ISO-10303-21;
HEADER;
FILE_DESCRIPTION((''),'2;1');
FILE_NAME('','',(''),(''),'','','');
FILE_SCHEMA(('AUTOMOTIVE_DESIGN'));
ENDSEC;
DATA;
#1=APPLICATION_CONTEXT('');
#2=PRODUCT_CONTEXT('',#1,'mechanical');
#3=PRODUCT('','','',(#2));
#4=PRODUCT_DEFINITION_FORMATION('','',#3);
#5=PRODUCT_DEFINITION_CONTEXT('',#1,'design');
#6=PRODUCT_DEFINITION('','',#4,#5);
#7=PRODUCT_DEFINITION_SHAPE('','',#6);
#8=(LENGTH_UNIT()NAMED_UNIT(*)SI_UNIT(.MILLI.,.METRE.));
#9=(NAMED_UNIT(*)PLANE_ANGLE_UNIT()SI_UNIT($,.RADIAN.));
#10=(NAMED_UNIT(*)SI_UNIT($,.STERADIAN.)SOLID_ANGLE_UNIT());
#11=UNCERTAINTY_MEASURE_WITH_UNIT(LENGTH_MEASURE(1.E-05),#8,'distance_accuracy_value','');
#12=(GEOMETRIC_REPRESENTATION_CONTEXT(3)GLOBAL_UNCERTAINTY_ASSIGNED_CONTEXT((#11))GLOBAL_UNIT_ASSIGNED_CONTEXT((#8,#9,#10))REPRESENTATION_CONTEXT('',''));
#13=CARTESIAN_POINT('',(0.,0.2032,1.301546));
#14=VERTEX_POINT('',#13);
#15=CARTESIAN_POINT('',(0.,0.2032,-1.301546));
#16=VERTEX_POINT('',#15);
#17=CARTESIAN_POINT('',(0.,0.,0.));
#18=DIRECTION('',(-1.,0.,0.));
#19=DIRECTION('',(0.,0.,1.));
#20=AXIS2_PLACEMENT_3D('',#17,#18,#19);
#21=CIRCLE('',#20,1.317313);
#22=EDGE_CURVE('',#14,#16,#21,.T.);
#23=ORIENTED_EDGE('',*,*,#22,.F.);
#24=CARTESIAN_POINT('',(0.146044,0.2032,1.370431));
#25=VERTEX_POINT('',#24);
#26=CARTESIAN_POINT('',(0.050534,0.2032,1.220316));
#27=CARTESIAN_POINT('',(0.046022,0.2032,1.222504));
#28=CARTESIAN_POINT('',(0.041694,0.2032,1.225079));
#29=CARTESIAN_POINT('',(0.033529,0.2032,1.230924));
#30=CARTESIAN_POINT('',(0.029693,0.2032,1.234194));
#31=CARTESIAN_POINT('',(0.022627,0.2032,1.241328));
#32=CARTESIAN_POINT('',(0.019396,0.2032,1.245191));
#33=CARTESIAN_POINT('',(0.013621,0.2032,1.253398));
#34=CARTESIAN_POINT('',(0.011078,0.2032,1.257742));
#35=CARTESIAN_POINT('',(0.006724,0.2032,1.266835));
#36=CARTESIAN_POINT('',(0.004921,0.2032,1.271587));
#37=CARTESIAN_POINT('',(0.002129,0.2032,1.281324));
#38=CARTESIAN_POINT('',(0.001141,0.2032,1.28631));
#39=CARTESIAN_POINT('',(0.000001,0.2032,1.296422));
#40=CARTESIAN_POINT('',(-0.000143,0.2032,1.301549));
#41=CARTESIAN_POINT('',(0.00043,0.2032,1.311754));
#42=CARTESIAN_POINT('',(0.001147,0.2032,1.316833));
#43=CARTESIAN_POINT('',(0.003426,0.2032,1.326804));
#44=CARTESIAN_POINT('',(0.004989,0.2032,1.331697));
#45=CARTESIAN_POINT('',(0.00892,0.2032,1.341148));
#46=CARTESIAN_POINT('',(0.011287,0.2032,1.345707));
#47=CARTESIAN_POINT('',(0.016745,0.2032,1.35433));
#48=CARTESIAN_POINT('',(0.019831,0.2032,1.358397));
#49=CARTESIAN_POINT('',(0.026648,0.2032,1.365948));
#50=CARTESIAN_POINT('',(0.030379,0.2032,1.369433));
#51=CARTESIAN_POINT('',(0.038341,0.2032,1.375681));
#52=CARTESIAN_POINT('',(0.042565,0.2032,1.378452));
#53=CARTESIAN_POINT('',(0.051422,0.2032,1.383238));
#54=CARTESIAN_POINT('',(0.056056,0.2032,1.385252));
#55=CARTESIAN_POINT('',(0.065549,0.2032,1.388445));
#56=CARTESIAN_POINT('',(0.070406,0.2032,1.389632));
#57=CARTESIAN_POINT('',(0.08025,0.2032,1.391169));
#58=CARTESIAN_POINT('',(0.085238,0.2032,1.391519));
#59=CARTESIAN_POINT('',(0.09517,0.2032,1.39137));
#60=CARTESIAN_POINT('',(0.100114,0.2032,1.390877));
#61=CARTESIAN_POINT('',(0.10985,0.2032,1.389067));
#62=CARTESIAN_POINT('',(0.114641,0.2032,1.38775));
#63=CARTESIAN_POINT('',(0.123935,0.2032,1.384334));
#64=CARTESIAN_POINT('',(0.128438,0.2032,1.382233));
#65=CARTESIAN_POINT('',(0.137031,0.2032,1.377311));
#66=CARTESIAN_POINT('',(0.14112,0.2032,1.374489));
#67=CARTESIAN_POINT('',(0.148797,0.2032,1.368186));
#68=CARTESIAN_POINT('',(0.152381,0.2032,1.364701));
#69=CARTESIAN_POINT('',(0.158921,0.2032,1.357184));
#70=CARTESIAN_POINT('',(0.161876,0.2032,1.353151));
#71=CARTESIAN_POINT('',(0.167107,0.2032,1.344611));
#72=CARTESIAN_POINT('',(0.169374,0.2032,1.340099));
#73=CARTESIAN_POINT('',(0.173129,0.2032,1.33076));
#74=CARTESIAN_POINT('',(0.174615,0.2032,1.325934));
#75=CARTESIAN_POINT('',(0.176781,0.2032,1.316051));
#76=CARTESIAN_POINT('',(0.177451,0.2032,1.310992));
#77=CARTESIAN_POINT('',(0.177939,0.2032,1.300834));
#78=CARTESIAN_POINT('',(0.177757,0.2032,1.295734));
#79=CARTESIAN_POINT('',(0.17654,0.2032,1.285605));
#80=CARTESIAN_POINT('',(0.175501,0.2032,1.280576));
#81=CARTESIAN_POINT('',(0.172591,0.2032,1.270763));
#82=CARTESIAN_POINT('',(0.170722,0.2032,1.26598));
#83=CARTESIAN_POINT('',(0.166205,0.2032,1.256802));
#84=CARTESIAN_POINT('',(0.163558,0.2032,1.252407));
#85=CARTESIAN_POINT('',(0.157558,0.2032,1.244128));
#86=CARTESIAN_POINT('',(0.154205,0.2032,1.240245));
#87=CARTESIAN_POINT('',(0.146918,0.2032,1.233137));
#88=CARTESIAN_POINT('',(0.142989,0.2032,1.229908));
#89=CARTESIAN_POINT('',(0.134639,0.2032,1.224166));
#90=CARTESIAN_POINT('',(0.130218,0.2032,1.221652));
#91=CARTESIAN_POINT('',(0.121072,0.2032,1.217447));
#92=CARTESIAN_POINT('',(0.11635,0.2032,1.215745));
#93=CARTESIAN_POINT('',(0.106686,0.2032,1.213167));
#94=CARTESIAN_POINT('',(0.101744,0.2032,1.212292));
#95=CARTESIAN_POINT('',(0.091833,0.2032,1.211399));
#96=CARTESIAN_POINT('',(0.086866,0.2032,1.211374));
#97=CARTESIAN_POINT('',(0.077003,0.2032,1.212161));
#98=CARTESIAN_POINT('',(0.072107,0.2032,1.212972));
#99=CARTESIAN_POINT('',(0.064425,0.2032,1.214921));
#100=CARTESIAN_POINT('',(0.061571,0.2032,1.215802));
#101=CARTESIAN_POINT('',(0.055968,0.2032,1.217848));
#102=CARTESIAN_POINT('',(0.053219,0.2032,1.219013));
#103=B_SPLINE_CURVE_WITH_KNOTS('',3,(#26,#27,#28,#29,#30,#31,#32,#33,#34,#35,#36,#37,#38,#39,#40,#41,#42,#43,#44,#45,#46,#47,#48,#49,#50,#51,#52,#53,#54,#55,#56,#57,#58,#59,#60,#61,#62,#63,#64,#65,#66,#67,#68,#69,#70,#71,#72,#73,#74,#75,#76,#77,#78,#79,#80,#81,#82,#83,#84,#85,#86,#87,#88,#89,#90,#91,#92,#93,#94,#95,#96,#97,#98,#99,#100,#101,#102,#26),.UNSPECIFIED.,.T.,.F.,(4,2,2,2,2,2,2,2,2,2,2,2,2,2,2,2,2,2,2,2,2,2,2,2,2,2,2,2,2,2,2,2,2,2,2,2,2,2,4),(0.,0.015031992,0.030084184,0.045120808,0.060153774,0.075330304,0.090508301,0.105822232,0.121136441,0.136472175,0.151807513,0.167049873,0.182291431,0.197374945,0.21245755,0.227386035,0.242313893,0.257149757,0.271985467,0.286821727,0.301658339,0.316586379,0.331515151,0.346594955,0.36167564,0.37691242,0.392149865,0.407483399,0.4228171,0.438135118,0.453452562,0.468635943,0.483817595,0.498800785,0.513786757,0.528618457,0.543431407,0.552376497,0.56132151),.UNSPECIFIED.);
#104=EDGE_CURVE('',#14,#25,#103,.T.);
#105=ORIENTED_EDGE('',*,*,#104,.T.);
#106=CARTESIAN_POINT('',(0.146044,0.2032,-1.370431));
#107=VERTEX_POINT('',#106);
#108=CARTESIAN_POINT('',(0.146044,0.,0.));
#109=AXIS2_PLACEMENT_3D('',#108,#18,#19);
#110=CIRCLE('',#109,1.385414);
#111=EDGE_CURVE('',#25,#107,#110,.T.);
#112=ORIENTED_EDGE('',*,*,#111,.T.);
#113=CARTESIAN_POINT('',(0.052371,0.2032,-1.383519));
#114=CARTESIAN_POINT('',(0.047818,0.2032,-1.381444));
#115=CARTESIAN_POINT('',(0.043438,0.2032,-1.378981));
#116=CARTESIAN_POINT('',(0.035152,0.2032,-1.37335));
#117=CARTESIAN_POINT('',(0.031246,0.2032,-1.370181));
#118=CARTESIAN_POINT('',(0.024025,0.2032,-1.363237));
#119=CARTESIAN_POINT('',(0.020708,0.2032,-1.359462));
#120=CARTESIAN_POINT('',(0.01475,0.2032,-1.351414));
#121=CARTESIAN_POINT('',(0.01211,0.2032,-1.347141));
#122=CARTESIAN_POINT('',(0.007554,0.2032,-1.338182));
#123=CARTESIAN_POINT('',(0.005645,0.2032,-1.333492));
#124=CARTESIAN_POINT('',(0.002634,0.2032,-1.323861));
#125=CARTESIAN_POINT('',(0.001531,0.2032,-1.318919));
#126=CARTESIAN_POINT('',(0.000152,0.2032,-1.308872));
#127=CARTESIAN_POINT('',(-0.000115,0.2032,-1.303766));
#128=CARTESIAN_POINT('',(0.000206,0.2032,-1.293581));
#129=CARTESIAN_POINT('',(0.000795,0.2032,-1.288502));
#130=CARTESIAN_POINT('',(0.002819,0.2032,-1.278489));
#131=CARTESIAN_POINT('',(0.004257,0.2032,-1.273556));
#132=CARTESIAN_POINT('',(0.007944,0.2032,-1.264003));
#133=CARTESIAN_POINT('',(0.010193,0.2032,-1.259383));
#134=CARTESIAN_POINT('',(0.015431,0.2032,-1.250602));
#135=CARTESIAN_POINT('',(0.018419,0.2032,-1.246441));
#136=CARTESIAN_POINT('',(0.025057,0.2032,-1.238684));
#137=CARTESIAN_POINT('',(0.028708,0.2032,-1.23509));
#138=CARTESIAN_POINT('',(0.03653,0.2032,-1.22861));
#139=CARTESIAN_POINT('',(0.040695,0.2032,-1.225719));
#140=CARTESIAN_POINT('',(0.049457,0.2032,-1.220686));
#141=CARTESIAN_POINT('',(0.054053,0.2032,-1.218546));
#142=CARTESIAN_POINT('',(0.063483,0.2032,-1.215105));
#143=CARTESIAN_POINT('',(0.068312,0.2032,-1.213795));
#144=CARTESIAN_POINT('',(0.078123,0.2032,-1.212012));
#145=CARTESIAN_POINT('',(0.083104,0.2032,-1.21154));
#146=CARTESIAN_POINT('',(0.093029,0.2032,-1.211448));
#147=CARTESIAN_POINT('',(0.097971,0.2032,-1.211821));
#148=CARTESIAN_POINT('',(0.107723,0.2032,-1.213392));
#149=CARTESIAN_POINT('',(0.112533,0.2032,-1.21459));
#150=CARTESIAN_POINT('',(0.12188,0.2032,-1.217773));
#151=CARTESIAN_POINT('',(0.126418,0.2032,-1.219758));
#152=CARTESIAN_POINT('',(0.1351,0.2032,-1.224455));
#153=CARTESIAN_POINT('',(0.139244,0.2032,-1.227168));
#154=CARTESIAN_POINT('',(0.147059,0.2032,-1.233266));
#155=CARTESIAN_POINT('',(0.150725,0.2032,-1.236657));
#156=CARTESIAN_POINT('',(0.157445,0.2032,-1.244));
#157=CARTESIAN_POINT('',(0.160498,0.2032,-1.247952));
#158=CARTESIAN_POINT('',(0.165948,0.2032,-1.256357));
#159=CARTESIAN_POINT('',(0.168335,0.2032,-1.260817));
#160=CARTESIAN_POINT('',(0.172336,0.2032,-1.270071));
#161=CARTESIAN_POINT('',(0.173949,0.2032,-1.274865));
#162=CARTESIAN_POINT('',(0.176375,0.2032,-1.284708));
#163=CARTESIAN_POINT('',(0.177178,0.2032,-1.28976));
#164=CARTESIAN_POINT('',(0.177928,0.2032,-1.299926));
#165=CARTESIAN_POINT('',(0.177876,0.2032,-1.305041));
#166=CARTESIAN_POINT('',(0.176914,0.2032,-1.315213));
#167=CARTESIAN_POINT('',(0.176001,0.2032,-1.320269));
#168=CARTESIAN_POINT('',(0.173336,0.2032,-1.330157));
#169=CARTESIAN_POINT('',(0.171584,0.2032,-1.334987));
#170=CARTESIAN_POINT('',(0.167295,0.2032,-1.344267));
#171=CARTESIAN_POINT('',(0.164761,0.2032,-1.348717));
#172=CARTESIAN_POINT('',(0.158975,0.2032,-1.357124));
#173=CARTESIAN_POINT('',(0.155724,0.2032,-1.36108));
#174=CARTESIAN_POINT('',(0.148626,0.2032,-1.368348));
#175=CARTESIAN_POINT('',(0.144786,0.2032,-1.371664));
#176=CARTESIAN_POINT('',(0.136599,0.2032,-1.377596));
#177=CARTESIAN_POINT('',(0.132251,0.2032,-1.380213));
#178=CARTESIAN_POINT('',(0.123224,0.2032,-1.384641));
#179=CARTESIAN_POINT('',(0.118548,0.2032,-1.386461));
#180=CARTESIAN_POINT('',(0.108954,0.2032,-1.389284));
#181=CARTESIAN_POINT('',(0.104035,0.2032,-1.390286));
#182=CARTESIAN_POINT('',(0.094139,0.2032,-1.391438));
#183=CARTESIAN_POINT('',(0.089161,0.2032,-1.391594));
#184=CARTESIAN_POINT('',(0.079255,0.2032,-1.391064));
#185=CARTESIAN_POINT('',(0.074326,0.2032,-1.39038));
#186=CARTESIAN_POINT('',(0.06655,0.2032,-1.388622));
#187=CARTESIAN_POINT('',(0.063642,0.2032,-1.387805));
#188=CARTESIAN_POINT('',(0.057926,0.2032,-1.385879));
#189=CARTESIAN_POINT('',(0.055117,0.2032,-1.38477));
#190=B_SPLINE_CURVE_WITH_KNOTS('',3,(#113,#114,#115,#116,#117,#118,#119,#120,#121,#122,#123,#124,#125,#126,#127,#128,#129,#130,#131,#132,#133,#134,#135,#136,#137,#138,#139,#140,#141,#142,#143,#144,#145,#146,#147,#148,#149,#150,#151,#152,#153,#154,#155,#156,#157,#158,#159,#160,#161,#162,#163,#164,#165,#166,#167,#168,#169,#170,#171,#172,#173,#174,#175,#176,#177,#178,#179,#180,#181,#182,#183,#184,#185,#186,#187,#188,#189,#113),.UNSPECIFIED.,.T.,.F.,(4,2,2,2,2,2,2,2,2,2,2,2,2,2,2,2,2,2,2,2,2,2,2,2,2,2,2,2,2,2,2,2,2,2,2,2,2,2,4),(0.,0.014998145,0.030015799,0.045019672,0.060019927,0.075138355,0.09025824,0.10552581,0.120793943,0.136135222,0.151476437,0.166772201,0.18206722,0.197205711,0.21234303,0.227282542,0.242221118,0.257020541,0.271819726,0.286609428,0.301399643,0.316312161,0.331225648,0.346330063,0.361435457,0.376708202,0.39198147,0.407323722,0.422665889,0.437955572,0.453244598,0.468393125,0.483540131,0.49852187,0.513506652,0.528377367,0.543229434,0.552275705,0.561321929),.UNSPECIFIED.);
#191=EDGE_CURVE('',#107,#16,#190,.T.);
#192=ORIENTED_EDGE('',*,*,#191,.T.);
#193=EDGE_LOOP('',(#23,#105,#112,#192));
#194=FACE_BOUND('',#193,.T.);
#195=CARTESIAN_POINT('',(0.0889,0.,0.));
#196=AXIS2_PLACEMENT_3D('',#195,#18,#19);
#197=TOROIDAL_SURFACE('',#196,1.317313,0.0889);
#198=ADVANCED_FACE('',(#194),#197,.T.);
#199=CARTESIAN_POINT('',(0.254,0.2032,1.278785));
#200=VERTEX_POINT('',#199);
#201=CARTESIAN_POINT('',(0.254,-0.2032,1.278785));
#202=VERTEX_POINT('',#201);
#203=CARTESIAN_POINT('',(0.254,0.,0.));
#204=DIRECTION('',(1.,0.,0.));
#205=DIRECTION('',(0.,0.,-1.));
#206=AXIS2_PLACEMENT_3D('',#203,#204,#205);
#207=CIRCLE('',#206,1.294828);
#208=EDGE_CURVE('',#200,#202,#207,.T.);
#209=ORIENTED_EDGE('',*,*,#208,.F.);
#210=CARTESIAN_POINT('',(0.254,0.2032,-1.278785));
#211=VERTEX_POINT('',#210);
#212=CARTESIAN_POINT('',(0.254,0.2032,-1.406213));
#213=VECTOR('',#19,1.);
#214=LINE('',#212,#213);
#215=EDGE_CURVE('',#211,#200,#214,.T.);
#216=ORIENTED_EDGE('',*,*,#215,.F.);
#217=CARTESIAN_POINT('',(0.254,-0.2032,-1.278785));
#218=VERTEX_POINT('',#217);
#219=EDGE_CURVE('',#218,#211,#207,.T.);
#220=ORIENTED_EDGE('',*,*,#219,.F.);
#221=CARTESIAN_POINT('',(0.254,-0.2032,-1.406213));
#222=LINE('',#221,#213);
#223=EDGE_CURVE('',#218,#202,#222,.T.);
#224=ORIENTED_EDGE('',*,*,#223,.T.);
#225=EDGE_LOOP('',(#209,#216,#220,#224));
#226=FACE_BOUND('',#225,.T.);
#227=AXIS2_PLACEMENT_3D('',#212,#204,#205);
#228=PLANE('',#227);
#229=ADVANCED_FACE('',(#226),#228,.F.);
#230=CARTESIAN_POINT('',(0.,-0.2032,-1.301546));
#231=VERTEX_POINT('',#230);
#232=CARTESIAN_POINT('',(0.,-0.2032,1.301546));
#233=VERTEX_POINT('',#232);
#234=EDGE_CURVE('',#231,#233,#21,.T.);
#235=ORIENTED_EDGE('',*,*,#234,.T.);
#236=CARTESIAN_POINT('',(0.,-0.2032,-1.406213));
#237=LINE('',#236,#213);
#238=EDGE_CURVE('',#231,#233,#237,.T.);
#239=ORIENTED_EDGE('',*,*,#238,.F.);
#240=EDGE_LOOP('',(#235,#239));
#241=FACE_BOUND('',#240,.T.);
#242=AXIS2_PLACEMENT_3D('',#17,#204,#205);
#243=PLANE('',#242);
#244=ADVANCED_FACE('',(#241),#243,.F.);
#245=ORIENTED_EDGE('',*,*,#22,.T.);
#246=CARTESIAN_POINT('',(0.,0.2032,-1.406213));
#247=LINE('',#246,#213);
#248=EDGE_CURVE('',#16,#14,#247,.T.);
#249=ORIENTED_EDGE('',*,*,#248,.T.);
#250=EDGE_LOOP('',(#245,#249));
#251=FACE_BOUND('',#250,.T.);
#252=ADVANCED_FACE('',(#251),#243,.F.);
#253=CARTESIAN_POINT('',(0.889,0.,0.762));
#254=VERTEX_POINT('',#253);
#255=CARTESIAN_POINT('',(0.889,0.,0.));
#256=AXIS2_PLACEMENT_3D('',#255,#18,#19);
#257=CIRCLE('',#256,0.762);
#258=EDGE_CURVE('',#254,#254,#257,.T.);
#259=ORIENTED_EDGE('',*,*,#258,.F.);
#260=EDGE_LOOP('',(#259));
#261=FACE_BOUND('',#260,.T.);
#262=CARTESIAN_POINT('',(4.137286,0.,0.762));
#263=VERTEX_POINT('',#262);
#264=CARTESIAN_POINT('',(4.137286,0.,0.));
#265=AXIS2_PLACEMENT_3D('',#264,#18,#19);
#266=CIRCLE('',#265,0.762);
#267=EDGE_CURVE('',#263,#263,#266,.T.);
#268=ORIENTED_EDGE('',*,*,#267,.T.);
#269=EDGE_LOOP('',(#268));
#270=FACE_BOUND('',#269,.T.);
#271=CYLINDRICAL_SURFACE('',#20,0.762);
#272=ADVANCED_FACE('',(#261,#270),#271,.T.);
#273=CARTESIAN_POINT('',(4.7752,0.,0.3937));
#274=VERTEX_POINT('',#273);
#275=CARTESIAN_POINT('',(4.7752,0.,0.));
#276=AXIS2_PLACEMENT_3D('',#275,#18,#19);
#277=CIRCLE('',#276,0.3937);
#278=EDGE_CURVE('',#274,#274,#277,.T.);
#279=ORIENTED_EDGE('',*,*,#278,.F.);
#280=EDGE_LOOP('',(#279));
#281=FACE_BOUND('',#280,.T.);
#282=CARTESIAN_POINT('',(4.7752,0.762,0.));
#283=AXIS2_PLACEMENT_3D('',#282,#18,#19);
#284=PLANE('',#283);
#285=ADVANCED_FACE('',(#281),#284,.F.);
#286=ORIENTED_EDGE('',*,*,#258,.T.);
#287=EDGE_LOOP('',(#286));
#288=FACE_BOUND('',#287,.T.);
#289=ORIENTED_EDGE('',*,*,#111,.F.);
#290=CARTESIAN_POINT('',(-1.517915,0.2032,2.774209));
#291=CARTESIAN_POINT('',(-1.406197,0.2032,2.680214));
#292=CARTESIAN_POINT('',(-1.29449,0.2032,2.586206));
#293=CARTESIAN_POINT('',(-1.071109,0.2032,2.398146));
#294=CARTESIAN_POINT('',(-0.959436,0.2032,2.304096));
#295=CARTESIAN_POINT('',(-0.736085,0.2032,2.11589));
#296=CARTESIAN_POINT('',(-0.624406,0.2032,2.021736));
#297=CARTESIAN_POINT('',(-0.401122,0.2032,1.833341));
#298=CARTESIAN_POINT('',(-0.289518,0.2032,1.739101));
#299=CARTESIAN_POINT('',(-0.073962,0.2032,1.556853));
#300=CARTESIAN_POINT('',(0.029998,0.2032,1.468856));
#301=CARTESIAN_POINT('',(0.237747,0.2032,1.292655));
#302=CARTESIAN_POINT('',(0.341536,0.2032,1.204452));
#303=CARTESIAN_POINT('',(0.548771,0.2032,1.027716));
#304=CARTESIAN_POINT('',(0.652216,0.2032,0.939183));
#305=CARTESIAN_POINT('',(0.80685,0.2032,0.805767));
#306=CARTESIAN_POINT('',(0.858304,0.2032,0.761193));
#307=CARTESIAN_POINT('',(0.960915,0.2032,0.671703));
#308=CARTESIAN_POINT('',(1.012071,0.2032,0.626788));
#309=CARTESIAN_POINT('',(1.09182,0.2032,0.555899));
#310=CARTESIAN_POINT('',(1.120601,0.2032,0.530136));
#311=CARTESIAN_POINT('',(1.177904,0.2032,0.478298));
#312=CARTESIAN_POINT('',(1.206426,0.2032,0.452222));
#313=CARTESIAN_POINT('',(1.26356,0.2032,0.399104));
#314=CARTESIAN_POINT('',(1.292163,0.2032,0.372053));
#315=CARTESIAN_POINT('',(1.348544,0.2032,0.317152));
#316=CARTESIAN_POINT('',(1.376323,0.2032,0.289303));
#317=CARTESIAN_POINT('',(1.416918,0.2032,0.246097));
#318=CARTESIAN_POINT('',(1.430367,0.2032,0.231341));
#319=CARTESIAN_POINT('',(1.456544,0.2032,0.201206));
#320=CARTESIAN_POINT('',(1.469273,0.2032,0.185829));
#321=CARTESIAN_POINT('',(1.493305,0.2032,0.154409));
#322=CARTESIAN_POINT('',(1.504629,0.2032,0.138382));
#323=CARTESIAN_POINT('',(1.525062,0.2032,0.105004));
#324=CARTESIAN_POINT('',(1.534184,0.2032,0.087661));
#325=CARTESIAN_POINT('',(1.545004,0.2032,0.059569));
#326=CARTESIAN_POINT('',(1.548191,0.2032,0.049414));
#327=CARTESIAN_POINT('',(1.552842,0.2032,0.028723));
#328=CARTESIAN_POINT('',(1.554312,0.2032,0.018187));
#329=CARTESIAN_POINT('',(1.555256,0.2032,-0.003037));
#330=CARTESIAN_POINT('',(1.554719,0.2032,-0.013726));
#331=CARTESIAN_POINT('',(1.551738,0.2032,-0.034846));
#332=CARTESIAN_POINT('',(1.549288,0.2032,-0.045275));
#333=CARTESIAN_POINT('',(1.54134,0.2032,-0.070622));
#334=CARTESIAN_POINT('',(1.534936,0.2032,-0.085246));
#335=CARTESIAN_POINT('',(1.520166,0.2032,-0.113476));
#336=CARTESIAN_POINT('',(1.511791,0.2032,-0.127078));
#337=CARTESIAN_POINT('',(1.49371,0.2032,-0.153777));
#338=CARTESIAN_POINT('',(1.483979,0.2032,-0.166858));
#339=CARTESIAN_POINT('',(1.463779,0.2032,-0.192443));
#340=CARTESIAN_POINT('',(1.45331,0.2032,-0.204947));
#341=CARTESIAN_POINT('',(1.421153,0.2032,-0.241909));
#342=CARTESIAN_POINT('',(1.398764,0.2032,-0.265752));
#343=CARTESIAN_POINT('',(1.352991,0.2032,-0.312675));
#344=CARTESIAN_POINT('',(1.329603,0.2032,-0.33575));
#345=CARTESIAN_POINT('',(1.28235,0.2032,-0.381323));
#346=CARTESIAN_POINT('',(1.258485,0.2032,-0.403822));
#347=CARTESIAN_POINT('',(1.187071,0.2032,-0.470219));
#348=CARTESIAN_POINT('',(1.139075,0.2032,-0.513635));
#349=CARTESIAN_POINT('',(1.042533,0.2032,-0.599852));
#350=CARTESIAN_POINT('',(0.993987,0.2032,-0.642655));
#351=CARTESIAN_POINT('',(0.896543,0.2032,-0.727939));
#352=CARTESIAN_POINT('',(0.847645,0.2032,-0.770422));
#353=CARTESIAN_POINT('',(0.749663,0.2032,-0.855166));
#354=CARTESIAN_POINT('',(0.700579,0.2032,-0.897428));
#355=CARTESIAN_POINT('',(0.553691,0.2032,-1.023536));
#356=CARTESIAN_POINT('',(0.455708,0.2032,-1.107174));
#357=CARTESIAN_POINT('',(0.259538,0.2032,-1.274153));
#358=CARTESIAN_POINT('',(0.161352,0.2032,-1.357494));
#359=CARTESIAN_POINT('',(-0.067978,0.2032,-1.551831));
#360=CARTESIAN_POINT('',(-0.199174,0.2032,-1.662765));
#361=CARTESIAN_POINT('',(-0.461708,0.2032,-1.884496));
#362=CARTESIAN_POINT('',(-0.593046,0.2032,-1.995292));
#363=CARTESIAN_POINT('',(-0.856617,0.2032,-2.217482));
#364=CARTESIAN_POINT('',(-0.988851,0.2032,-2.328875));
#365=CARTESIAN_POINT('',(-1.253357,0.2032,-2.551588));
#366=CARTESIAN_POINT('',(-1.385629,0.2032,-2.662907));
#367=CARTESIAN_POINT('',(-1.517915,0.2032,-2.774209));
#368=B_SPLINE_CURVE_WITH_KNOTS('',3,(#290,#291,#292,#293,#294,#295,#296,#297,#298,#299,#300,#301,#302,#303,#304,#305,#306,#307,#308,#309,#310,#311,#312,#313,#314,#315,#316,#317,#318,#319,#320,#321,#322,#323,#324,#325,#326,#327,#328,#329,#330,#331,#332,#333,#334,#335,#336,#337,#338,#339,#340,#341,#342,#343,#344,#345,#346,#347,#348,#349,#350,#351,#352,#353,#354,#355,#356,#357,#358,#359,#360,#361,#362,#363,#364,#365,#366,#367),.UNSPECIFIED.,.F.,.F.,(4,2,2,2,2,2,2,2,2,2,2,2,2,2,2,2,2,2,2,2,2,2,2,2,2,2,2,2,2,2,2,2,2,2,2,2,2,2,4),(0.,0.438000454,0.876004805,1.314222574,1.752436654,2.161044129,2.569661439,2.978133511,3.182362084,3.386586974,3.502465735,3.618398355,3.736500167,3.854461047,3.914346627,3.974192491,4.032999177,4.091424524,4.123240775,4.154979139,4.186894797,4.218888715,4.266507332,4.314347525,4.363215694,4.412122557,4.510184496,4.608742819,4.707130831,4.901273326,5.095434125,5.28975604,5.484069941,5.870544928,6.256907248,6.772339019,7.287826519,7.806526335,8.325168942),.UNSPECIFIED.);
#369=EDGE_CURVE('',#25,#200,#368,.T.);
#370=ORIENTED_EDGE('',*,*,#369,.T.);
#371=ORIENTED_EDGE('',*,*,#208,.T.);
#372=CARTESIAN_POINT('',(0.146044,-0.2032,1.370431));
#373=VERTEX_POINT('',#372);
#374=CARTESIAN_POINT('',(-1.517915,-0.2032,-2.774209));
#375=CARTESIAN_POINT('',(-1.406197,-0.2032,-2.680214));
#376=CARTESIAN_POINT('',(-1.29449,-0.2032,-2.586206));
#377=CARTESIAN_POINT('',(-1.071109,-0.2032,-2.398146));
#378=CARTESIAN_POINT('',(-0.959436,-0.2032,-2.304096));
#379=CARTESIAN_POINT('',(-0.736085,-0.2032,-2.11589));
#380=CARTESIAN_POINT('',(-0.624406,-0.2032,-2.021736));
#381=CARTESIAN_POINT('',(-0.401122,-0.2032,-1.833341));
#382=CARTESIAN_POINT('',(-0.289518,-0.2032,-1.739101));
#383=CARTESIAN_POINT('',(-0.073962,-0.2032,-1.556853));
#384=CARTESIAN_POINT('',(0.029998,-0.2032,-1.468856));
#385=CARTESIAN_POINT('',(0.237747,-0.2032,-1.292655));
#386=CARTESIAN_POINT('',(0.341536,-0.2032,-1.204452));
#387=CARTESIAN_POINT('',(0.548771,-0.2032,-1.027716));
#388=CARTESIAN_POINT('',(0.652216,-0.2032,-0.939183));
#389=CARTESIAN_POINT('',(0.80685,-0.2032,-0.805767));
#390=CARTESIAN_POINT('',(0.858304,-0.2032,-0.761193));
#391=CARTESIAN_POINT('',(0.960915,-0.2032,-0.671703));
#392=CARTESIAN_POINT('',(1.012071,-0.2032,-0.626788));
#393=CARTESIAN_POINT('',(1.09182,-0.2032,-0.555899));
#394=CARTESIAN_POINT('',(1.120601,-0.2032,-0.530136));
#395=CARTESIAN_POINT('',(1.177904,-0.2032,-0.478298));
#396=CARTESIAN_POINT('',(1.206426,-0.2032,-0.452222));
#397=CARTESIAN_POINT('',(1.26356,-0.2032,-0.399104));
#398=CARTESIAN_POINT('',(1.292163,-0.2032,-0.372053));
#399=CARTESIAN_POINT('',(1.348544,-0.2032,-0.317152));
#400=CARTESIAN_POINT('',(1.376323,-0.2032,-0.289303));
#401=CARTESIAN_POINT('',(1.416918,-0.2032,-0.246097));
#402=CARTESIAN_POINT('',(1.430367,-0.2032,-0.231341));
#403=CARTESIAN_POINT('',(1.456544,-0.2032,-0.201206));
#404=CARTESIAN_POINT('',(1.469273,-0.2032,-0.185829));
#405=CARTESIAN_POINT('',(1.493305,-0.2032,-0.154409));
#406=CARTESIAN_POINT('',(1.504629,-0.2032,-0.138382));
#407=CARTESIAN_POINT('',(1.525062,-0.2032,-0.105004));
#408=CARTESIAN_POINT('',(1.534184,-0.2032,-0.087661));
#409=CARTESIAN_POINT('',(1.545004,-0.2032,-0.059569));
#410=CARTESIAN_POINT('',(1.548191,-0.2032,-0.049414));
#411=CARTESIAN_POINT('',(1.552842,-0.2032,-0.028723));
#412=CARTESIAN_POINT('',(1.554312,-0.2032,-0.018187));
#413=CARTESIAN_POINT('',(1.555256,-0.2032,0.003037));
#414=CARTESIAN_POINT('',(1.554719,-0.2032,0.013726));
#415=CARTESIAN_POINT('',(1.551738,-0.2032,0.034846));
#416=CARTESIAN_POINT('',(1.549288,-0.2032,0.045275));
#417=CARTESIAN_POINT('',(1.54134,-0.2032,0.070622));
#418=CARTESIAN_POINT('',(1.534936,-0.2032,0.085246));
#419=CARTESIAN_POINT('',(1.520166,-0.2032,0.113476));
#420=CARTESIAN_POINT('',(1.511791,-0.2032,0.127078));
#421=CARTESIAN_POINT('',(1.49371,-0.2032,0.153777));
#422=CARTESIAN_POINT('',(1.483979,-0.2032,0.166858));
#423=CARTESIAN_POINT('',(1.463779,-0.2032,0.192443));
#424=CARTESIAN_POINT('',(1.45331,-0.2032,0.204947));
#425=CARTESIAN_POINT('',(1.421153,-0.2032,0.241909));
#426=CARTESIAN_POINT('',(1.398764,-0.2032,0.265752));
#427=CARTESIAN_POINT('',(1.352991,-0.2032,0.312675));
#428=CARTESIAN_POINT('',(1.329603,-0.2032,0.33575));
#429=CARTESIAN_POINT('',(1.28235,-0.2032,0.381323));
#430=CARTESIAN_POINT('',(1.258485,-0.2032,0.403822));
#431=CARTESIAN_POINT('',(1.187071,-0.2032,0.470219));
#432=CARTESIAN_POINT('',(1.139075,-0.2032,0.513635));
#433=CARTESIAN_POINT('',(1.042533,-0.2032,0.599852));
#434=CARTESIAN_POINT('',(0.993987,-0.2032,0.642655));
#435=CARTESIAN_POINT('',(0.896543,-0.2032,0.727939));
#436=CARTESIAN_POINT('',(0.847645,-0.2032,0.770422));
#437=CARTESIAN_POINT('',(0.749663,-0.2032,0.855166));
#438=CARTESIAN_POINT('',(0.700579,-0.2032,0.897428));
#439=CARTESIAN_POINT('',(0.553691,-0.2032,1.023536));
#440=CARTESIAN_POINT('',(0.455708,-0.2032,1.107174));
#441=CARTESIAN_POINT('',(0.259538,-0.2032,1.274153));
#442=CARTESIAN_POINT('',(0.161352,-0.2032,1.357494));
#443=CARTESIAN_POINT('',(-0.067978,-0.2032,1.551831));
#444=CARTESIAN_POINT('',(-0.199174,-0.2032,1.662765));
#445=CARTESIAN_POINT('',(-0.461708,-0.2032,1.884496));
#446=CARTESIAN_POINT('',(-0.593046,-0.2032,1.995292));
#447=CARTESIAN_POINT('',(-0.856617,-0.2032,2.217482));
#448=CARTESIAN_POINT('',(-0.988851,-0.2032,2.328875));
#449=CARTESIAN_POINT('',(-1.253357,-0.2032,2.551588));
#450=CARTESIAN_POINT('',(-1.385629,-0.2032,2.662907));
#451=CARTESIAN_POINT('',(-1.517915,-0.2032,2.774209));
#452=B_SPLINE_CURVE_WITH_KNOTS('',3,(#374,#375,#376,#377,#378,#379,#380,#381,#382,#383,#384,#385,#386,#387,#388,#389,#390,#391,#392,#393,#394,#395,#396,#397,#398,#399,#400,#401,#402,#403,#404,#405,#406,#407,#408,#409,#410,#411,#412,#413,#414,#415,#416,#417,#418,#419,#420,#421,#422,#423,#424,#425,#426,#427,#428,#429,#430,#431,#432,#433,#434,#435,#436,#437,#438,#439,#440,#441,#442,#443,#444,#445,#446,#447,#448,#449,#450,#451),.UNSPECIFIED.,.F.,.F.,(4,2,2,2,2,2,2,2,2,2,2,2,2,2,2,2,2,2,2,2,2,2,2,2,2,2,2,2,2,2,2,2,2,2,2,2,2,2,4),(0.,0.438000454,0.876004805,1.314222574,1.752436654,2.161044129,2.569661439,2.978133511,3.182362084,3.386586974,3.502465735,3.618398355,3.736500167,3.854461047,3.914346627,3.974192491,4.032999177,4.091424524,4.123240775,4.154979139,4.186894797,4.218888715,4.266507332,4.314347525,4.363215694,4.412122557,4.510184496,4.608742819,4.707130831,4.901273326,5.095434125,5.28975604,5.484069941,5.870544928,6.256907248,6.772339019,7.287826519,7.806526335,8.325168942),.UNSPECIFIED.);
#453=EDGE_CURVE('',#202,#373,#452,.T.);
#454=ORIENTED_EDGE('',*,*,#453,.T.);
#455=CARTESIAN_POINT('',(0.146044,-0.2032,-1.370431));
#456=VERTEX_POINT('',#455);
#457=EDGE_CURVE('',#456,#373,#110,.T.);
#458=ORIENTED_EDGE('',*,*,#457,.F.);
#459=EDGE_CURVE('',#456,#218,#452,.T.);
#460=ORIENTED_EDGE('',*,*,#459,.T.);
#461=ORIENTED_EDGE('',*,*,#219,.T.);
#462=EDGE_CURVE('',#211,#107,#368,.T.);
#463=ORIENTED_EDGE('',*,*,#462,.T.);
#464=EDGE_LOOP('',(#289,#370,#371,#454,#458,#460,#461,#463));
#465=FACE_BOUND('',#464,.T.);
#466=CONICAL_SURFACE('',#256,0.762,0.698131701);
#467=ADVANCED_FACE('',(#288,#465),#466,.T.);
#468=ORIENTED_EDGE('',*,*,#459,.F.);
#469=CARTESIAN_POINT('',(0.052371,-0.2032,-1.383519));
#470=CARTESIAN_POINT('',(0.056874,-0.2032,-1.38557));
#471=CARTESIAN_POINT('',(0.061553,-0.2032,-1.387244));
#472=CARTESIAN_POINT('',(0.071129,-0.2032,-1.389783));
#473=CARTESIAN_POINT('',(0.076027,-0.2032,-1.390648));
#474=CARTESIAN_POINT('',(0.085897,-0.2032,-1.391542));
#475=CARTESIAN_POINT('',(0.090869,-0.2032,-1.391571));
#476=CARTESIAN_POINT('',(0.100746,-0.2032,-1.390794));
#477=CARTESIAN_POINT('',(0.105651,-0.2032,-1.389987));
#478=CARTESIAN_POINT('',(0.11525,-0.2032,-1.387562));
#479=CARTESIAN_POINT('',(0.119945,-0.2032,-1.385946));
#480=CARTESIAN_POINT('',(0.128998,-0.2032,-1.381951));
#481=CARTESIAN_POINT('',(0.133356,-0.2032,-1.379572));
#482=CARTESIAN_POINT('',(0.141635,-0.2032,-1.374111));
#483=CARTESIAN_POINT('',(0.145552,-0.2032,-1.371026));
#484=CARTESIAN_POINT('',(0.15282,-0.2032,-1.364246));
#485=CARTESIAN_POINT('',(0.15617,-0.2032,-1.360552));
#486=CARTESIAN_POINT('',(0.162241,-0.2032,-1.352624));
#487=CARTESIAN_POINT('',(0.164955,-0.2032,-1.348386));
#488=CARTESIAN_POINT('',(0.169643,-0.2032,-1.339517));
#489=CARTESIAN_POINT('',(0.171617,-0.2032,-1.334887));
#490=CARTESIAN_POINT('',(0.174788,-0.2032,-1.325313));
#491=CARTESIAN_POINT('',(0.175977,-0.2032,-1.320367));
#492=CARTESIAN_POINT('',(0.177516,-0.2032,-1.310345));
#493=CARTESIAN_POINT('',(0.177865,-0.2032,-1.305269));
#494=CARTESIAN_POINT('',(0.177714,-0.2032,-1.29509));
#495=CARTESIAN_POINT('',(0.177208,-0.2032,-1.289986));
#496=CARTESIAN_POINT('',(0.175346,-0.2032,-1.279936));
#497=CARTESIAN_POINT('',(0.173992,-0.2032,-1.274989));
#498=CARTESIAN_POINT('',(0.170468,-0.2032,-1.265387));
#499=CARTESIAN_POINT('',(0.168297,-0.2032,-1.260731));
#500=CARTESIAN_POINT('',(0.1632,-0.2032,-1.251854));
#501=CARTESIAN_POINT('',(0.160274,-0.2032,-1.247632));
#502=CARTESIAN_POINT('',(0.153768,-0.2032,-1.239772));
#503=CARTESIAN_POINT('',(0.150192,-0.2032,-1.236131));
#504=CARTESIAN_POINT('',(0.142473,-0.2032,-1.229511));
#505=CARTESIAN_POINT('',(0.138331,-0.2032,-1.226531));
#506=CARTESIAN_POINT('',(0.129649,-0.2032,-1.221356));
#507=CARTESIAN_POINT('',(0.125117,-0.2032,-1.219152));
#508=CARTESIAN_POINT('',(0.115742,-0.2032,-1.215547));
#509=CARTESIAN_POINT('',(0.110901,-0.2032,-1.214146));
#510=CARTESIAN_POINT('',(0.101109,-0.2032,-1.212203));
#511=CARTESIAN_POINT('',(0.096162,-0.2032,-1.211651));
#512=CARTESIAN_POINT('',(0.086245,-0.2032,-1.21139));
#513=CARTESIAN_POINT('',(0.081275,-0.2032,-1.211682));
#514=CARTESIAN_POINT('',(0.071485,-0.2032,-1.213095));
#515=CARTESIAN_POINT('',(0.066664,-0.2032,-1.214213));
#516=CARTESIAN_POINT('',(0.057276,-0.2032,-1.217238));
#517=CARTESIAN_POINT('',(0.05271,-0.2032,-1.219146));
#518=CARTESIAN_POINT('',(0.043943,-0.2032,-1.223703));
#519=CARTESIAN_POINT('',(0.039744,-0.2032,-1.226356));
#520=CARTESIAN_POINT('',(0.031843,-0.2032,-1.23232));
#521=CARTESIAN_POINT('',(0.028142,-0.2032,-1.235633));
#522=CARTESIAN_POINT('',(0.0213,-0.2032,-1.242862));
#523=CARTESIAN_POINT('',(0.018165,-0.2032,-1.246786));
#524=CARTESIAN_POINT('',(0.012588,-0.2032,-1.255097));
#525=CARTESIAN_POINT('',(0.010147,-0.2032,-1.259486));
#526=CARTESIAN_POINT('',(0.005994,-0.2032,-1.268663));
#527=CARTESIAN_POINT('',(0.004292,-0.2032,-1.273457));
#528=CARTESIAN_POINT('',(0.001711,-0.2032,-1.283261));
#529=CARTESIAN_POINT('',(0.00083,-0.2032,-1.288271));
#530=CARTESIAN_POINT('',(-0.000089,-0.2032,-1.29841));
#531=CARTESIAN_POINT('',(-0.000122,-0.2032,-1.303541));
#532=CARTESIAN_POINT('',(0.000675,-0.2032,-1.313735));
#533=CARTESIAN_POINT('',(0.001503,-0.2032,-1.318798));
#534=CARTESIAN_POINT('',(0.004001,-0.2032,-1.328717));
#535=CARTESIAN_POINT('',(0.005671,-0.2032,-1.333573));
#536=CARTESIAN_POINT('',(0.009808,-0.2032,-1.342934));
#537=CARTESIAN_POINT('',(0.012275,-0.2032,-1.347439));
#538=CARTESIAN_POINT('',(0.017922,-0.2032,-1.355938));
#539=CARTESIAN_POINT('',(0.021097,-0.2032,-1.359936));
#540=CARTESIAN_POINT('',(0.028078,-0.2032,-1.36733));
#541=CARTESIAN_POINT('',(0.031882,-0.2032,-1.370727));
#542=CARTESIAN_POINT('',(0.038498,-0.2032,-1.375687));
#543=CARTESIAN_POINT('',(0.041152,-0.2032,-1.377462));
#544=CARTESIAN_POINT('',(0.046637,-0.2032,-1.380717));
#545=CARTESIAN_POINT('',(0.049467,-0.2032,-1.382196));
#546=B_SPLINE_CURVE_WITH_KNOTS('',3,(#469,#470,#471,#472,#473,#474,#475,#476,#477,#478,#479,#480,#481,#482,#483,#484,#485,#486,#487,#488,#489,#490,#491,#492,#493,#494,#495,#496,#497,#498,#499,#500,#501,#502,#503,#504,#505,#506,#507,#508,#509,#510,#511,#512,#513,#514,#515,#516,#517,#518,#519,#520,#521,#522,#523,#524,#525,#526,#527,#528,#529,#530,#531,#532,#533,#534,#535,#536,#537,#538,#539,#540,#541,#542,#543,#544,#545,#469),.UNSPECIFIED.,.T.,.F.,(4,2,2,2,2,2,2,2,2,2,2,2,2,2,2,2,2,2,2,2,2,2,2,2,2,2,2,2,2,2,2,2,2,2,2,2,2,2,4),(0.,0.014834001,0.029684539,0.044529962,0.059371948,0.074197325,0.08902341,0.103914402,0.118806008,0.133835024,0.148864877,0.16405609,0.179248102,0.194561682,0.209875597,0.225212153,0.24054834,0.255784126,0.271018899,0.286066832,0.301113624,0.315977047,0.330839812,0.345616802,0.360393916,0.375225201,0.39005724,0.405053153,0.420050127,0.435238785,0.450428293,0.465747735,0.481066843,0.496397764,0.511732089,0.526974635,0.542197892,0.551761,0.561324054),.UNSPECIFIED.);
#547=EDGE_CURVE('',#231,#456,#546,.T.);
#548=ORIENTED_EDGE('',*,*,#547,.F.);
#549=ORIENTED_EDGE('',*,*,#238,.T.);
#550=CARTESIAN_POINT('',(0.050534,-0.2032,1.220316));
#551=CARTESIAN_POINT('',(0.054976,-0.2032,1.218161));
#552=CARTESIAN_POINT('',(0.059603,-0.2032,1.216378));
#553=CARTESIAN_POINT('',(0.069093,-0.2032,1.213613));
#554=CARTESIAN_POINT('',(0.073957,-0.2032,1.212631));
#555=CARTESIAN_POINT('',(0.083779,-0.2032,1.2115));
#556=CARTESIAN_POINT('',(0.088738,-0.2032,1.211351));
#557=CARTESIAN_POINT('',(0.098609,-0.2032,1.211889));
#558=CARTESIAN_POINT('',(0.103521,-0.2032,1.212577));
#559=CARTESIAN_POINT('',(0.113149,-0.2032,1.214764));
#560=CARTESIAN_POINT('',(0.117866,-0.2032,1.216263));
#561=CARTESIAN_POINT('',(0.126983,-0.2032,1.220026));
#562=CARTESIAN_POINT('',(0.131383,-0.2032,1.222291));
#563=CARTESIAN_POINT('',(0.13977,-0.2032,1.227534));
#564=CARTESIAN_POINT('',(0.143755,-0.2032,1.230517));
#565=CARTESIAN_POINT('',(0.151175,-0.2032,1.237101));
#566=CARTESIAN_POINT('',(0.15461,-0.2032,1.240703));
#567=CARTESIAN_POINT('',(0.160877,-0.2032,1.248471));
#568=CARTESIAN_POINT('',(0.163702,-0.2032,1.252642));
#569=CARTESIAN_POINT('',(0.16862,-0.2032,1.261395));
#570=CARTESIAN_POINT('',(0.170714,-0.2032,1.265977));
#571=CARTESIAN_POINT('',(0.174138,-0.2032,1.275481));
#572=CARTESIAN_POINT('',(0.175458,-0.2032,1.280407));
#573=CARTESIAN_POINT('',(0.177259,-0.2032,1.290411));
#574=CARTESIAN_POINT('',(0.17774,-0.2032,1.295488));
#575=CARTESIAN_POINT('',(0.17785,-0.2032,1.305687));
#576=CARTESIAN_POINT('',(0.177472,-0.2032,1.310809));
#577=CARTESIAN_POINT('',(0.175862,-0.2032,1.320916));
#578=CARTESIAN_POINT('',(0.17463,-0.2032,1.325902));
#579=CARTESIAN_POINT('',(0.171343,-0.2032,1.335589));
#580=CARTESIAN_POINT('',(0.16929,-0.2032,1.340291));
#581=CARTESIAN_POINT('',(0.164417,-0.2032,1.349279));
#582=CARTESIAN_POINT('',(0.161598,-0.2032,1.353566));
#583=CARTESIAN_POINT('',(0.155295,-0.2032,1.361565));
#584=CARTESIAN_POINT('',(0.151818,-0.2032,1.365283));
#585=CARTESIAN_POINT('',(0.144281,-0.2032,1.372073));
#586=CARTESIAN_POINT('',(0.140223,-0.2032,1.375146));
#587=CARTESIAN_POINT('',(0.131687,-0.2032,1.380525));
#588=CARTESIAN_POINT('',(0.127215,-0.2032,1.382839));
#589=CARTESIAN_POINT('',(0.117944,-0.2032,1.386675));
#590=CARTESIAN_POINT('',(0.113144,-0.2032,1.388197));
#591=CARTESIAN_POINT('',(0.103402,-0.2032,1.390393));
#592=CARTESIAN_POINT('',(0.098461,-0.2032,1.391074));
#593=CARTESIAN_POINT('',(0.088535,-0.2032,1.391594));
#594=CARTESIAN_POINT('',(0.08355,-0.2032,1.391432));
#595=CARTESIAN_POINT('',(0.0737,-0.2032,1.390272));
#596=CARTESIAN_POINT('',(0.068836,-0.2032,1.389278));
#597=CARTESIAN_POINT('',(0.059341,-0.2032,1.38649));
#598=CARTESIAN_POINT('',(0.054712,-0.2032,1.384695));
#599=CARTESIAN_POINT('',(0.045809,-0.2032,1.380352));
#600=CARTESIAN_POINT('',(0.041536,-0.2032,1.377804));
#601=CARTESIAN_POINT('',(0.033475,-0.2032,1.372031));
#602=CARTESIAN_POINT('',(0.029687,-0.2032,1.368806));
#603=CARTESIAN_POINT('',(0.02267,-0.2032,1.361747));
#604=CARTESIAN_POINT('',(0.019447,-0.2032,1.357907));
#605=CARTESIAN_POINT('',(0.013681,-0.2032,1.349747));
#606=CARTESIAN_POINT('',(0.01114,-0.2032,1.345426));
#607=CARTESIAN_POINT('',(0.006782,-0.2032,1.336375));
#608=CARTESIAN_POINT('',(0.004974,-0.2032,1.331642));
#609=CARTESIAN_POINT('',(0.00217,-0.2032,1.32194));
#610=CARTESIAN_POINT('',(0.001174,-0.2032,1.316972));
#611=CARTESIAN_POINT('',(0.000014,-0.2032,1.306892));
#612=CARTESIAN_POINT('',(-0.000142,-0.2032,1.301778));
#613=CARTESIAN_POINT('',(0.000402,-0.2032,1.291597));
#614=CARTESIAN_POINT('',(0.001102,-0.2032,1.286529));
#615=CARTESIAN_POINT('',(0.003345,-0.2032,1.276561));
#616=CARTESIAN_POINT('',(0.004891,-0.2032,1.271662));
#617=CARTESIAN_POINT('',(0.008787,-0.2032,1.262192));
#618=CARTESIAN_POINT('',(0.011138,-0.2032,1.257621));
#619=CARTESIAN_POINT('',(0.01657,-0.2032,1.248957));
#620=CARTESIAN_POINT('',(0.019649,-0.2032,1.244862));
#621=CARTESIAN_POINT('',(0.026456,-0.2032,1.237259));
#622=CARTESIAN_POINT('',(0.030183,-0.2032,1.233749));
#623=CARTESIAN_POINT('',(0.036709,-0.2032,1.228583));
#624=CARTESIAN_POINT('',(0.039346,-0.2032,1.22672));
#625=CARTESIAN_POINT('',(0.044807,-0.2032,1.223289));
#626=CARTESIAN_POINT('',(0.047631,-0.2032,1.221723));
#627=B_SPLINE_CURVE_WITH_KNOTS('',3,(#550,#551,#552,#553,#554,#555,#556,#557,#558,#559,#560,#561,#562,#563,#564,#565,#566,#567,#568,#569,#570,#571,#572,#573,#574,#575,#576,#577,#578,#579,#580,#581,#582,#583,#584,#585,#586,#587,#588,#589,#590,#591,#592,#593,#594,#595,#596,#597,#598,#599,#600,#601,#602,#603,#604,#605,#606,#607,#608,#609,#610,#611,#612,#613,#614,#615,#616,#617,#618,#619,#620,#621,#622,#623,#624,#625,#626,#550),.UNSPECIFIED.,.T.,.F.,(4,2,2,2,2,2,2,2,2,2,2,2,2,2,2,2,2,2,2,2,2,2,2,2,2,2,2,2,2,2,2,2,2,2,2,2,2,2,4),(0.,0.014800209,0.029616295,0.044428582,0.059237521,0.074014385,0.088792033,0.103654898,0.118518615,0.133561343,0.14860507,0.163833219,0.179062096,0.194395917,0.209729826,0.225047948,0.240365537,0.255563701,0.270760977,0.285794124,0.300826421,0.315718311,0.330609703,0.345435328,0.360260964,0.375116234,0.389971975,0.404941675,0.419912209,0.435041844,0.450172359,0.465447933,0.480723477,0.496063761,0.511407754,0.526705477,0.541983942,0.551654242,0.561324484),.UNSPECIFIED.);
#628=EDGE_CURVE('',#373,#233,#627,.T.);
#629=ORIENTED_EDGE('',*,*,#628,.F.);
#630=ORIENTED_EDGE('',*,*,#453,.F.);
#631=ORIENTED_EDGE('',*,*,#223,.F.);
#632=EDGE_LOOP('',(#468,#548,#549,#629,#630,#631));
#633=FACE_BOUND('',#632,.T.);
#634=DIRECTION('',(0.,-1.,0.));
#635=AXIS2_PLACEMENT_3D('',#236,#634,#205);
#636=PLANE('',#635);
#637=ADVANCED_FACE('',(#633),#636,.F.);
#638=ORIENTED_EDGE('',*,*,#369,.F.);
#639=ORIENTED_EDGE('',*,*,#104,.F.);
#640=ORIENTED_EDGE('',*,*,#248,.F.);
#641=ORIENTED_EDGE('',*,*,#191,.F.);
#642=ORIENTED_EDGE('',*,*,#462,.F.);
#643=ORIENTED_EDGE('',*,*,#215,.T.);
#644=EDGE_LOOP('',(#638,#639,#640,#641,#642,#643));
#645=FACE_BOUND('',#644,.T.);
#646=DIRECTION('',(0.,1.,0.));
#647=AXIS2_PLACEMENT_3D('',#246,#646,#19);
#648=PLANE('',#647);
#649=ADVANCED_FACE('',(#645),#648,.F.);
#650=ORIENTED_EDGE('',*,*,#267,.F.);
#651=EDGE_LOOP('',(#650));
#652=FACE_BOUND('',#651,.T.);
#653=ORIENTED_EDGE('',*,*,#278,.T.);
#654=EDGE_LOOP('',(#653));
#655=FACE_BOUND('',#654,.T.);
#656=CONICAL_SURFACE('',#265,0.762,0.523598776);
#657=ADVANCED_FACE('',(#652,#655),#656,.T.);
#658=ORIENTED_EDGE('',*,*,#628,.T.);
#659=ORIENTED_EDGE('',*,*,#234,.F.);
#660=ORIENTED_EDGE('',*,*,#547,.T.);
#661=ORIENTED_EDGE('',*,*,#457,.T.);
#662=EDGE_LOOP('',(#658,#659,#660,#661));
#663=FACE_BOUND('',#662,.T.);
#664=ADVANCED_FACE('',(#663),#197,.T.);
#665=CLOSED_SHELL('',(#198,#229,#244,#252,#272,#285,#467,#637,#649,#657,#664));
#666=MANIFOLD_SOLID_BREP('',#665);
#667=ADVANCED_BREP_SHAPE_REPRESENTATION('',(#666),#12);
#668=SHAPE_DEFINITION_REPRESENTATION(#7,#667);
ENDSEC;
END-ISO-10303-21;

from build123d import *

# Parameters (mm, degrees)
SLOT_CUT_EXTRUDE1_DEPTH      = 6.172756043
SLOT_CUT_EXTRUDE1_DEPTH_BACK = 6.172756043
SKETCH2_W                    = 0.254
SKETCH2_H                    = 0.4064


with BuildPart() as part:
    # Sketch1 → base-Revolve (revolve)
    with BuildSketch(Plane.XY, mode=Mode.PRIVATE) as base_revolve_sk:
        with BuildLine():
            Line((0, 0), (0, 1.317312907))
            ThreePointArc((0, 1.317312907), (0.051329237, 1.397883669), (0.146043819, 1.385414258))
            Line((0.146043819, 1.385414258), (0.889, 0.762))
            Line((0.889, 0.762), (4.7752, 0.762))
            Line((4.7752, 0.762), (4.7752, 0))
            Line((4.7752, 0), (0, 0))
        make_face()
    revolve(base_revolve_sk.sketch.rotate(Axis((0, 0, 0), (1, 0, 0)), 90), axis=Axis((0, 0, 0), (1, 0, 0)))

    # Sketch2 → slot_Cut-Extrude1 (cut, two sides: drawn at the far end of the back side and taken through both)
    with BuildSketch(Plane.XY.offset(-SLOT_CUT_EXTRUDE1_DEPTH_BACK)):
        with Locations((0.127, 0)):
            Rectangle(SKETCH2_W, SKETCH2_H)
    extrude(amount=SLOT_CUT_EXTRUDE1_DEPTH + SLOT_CUT_EXTRUDE1_DEPTH_BACK, mode=Mode.SUBTRACT)

    # Sketch8 → point_Cut-Revolve1 (revolve, cut)
    with BuildSketch(Plane.XY, mode=Mode.PRIVATE) as point_cut_revolve1_sk:
        Polygon((4.7752, 0), (5.2832, 0), (5.2832, 1.27), (4.137285688, 1.27), (4.137285688, 0.762), (4.7752, 0.3937), align=None)
    revolve(point_cut_revolve1_sk.sketch.rotate(Axis((0, 0, 0), (1, 0, 0)), 90), axis=Axis((0, 0, 0), (1, 0, 0)), mode=Mode.SUBTRACT)


solid = part.part
